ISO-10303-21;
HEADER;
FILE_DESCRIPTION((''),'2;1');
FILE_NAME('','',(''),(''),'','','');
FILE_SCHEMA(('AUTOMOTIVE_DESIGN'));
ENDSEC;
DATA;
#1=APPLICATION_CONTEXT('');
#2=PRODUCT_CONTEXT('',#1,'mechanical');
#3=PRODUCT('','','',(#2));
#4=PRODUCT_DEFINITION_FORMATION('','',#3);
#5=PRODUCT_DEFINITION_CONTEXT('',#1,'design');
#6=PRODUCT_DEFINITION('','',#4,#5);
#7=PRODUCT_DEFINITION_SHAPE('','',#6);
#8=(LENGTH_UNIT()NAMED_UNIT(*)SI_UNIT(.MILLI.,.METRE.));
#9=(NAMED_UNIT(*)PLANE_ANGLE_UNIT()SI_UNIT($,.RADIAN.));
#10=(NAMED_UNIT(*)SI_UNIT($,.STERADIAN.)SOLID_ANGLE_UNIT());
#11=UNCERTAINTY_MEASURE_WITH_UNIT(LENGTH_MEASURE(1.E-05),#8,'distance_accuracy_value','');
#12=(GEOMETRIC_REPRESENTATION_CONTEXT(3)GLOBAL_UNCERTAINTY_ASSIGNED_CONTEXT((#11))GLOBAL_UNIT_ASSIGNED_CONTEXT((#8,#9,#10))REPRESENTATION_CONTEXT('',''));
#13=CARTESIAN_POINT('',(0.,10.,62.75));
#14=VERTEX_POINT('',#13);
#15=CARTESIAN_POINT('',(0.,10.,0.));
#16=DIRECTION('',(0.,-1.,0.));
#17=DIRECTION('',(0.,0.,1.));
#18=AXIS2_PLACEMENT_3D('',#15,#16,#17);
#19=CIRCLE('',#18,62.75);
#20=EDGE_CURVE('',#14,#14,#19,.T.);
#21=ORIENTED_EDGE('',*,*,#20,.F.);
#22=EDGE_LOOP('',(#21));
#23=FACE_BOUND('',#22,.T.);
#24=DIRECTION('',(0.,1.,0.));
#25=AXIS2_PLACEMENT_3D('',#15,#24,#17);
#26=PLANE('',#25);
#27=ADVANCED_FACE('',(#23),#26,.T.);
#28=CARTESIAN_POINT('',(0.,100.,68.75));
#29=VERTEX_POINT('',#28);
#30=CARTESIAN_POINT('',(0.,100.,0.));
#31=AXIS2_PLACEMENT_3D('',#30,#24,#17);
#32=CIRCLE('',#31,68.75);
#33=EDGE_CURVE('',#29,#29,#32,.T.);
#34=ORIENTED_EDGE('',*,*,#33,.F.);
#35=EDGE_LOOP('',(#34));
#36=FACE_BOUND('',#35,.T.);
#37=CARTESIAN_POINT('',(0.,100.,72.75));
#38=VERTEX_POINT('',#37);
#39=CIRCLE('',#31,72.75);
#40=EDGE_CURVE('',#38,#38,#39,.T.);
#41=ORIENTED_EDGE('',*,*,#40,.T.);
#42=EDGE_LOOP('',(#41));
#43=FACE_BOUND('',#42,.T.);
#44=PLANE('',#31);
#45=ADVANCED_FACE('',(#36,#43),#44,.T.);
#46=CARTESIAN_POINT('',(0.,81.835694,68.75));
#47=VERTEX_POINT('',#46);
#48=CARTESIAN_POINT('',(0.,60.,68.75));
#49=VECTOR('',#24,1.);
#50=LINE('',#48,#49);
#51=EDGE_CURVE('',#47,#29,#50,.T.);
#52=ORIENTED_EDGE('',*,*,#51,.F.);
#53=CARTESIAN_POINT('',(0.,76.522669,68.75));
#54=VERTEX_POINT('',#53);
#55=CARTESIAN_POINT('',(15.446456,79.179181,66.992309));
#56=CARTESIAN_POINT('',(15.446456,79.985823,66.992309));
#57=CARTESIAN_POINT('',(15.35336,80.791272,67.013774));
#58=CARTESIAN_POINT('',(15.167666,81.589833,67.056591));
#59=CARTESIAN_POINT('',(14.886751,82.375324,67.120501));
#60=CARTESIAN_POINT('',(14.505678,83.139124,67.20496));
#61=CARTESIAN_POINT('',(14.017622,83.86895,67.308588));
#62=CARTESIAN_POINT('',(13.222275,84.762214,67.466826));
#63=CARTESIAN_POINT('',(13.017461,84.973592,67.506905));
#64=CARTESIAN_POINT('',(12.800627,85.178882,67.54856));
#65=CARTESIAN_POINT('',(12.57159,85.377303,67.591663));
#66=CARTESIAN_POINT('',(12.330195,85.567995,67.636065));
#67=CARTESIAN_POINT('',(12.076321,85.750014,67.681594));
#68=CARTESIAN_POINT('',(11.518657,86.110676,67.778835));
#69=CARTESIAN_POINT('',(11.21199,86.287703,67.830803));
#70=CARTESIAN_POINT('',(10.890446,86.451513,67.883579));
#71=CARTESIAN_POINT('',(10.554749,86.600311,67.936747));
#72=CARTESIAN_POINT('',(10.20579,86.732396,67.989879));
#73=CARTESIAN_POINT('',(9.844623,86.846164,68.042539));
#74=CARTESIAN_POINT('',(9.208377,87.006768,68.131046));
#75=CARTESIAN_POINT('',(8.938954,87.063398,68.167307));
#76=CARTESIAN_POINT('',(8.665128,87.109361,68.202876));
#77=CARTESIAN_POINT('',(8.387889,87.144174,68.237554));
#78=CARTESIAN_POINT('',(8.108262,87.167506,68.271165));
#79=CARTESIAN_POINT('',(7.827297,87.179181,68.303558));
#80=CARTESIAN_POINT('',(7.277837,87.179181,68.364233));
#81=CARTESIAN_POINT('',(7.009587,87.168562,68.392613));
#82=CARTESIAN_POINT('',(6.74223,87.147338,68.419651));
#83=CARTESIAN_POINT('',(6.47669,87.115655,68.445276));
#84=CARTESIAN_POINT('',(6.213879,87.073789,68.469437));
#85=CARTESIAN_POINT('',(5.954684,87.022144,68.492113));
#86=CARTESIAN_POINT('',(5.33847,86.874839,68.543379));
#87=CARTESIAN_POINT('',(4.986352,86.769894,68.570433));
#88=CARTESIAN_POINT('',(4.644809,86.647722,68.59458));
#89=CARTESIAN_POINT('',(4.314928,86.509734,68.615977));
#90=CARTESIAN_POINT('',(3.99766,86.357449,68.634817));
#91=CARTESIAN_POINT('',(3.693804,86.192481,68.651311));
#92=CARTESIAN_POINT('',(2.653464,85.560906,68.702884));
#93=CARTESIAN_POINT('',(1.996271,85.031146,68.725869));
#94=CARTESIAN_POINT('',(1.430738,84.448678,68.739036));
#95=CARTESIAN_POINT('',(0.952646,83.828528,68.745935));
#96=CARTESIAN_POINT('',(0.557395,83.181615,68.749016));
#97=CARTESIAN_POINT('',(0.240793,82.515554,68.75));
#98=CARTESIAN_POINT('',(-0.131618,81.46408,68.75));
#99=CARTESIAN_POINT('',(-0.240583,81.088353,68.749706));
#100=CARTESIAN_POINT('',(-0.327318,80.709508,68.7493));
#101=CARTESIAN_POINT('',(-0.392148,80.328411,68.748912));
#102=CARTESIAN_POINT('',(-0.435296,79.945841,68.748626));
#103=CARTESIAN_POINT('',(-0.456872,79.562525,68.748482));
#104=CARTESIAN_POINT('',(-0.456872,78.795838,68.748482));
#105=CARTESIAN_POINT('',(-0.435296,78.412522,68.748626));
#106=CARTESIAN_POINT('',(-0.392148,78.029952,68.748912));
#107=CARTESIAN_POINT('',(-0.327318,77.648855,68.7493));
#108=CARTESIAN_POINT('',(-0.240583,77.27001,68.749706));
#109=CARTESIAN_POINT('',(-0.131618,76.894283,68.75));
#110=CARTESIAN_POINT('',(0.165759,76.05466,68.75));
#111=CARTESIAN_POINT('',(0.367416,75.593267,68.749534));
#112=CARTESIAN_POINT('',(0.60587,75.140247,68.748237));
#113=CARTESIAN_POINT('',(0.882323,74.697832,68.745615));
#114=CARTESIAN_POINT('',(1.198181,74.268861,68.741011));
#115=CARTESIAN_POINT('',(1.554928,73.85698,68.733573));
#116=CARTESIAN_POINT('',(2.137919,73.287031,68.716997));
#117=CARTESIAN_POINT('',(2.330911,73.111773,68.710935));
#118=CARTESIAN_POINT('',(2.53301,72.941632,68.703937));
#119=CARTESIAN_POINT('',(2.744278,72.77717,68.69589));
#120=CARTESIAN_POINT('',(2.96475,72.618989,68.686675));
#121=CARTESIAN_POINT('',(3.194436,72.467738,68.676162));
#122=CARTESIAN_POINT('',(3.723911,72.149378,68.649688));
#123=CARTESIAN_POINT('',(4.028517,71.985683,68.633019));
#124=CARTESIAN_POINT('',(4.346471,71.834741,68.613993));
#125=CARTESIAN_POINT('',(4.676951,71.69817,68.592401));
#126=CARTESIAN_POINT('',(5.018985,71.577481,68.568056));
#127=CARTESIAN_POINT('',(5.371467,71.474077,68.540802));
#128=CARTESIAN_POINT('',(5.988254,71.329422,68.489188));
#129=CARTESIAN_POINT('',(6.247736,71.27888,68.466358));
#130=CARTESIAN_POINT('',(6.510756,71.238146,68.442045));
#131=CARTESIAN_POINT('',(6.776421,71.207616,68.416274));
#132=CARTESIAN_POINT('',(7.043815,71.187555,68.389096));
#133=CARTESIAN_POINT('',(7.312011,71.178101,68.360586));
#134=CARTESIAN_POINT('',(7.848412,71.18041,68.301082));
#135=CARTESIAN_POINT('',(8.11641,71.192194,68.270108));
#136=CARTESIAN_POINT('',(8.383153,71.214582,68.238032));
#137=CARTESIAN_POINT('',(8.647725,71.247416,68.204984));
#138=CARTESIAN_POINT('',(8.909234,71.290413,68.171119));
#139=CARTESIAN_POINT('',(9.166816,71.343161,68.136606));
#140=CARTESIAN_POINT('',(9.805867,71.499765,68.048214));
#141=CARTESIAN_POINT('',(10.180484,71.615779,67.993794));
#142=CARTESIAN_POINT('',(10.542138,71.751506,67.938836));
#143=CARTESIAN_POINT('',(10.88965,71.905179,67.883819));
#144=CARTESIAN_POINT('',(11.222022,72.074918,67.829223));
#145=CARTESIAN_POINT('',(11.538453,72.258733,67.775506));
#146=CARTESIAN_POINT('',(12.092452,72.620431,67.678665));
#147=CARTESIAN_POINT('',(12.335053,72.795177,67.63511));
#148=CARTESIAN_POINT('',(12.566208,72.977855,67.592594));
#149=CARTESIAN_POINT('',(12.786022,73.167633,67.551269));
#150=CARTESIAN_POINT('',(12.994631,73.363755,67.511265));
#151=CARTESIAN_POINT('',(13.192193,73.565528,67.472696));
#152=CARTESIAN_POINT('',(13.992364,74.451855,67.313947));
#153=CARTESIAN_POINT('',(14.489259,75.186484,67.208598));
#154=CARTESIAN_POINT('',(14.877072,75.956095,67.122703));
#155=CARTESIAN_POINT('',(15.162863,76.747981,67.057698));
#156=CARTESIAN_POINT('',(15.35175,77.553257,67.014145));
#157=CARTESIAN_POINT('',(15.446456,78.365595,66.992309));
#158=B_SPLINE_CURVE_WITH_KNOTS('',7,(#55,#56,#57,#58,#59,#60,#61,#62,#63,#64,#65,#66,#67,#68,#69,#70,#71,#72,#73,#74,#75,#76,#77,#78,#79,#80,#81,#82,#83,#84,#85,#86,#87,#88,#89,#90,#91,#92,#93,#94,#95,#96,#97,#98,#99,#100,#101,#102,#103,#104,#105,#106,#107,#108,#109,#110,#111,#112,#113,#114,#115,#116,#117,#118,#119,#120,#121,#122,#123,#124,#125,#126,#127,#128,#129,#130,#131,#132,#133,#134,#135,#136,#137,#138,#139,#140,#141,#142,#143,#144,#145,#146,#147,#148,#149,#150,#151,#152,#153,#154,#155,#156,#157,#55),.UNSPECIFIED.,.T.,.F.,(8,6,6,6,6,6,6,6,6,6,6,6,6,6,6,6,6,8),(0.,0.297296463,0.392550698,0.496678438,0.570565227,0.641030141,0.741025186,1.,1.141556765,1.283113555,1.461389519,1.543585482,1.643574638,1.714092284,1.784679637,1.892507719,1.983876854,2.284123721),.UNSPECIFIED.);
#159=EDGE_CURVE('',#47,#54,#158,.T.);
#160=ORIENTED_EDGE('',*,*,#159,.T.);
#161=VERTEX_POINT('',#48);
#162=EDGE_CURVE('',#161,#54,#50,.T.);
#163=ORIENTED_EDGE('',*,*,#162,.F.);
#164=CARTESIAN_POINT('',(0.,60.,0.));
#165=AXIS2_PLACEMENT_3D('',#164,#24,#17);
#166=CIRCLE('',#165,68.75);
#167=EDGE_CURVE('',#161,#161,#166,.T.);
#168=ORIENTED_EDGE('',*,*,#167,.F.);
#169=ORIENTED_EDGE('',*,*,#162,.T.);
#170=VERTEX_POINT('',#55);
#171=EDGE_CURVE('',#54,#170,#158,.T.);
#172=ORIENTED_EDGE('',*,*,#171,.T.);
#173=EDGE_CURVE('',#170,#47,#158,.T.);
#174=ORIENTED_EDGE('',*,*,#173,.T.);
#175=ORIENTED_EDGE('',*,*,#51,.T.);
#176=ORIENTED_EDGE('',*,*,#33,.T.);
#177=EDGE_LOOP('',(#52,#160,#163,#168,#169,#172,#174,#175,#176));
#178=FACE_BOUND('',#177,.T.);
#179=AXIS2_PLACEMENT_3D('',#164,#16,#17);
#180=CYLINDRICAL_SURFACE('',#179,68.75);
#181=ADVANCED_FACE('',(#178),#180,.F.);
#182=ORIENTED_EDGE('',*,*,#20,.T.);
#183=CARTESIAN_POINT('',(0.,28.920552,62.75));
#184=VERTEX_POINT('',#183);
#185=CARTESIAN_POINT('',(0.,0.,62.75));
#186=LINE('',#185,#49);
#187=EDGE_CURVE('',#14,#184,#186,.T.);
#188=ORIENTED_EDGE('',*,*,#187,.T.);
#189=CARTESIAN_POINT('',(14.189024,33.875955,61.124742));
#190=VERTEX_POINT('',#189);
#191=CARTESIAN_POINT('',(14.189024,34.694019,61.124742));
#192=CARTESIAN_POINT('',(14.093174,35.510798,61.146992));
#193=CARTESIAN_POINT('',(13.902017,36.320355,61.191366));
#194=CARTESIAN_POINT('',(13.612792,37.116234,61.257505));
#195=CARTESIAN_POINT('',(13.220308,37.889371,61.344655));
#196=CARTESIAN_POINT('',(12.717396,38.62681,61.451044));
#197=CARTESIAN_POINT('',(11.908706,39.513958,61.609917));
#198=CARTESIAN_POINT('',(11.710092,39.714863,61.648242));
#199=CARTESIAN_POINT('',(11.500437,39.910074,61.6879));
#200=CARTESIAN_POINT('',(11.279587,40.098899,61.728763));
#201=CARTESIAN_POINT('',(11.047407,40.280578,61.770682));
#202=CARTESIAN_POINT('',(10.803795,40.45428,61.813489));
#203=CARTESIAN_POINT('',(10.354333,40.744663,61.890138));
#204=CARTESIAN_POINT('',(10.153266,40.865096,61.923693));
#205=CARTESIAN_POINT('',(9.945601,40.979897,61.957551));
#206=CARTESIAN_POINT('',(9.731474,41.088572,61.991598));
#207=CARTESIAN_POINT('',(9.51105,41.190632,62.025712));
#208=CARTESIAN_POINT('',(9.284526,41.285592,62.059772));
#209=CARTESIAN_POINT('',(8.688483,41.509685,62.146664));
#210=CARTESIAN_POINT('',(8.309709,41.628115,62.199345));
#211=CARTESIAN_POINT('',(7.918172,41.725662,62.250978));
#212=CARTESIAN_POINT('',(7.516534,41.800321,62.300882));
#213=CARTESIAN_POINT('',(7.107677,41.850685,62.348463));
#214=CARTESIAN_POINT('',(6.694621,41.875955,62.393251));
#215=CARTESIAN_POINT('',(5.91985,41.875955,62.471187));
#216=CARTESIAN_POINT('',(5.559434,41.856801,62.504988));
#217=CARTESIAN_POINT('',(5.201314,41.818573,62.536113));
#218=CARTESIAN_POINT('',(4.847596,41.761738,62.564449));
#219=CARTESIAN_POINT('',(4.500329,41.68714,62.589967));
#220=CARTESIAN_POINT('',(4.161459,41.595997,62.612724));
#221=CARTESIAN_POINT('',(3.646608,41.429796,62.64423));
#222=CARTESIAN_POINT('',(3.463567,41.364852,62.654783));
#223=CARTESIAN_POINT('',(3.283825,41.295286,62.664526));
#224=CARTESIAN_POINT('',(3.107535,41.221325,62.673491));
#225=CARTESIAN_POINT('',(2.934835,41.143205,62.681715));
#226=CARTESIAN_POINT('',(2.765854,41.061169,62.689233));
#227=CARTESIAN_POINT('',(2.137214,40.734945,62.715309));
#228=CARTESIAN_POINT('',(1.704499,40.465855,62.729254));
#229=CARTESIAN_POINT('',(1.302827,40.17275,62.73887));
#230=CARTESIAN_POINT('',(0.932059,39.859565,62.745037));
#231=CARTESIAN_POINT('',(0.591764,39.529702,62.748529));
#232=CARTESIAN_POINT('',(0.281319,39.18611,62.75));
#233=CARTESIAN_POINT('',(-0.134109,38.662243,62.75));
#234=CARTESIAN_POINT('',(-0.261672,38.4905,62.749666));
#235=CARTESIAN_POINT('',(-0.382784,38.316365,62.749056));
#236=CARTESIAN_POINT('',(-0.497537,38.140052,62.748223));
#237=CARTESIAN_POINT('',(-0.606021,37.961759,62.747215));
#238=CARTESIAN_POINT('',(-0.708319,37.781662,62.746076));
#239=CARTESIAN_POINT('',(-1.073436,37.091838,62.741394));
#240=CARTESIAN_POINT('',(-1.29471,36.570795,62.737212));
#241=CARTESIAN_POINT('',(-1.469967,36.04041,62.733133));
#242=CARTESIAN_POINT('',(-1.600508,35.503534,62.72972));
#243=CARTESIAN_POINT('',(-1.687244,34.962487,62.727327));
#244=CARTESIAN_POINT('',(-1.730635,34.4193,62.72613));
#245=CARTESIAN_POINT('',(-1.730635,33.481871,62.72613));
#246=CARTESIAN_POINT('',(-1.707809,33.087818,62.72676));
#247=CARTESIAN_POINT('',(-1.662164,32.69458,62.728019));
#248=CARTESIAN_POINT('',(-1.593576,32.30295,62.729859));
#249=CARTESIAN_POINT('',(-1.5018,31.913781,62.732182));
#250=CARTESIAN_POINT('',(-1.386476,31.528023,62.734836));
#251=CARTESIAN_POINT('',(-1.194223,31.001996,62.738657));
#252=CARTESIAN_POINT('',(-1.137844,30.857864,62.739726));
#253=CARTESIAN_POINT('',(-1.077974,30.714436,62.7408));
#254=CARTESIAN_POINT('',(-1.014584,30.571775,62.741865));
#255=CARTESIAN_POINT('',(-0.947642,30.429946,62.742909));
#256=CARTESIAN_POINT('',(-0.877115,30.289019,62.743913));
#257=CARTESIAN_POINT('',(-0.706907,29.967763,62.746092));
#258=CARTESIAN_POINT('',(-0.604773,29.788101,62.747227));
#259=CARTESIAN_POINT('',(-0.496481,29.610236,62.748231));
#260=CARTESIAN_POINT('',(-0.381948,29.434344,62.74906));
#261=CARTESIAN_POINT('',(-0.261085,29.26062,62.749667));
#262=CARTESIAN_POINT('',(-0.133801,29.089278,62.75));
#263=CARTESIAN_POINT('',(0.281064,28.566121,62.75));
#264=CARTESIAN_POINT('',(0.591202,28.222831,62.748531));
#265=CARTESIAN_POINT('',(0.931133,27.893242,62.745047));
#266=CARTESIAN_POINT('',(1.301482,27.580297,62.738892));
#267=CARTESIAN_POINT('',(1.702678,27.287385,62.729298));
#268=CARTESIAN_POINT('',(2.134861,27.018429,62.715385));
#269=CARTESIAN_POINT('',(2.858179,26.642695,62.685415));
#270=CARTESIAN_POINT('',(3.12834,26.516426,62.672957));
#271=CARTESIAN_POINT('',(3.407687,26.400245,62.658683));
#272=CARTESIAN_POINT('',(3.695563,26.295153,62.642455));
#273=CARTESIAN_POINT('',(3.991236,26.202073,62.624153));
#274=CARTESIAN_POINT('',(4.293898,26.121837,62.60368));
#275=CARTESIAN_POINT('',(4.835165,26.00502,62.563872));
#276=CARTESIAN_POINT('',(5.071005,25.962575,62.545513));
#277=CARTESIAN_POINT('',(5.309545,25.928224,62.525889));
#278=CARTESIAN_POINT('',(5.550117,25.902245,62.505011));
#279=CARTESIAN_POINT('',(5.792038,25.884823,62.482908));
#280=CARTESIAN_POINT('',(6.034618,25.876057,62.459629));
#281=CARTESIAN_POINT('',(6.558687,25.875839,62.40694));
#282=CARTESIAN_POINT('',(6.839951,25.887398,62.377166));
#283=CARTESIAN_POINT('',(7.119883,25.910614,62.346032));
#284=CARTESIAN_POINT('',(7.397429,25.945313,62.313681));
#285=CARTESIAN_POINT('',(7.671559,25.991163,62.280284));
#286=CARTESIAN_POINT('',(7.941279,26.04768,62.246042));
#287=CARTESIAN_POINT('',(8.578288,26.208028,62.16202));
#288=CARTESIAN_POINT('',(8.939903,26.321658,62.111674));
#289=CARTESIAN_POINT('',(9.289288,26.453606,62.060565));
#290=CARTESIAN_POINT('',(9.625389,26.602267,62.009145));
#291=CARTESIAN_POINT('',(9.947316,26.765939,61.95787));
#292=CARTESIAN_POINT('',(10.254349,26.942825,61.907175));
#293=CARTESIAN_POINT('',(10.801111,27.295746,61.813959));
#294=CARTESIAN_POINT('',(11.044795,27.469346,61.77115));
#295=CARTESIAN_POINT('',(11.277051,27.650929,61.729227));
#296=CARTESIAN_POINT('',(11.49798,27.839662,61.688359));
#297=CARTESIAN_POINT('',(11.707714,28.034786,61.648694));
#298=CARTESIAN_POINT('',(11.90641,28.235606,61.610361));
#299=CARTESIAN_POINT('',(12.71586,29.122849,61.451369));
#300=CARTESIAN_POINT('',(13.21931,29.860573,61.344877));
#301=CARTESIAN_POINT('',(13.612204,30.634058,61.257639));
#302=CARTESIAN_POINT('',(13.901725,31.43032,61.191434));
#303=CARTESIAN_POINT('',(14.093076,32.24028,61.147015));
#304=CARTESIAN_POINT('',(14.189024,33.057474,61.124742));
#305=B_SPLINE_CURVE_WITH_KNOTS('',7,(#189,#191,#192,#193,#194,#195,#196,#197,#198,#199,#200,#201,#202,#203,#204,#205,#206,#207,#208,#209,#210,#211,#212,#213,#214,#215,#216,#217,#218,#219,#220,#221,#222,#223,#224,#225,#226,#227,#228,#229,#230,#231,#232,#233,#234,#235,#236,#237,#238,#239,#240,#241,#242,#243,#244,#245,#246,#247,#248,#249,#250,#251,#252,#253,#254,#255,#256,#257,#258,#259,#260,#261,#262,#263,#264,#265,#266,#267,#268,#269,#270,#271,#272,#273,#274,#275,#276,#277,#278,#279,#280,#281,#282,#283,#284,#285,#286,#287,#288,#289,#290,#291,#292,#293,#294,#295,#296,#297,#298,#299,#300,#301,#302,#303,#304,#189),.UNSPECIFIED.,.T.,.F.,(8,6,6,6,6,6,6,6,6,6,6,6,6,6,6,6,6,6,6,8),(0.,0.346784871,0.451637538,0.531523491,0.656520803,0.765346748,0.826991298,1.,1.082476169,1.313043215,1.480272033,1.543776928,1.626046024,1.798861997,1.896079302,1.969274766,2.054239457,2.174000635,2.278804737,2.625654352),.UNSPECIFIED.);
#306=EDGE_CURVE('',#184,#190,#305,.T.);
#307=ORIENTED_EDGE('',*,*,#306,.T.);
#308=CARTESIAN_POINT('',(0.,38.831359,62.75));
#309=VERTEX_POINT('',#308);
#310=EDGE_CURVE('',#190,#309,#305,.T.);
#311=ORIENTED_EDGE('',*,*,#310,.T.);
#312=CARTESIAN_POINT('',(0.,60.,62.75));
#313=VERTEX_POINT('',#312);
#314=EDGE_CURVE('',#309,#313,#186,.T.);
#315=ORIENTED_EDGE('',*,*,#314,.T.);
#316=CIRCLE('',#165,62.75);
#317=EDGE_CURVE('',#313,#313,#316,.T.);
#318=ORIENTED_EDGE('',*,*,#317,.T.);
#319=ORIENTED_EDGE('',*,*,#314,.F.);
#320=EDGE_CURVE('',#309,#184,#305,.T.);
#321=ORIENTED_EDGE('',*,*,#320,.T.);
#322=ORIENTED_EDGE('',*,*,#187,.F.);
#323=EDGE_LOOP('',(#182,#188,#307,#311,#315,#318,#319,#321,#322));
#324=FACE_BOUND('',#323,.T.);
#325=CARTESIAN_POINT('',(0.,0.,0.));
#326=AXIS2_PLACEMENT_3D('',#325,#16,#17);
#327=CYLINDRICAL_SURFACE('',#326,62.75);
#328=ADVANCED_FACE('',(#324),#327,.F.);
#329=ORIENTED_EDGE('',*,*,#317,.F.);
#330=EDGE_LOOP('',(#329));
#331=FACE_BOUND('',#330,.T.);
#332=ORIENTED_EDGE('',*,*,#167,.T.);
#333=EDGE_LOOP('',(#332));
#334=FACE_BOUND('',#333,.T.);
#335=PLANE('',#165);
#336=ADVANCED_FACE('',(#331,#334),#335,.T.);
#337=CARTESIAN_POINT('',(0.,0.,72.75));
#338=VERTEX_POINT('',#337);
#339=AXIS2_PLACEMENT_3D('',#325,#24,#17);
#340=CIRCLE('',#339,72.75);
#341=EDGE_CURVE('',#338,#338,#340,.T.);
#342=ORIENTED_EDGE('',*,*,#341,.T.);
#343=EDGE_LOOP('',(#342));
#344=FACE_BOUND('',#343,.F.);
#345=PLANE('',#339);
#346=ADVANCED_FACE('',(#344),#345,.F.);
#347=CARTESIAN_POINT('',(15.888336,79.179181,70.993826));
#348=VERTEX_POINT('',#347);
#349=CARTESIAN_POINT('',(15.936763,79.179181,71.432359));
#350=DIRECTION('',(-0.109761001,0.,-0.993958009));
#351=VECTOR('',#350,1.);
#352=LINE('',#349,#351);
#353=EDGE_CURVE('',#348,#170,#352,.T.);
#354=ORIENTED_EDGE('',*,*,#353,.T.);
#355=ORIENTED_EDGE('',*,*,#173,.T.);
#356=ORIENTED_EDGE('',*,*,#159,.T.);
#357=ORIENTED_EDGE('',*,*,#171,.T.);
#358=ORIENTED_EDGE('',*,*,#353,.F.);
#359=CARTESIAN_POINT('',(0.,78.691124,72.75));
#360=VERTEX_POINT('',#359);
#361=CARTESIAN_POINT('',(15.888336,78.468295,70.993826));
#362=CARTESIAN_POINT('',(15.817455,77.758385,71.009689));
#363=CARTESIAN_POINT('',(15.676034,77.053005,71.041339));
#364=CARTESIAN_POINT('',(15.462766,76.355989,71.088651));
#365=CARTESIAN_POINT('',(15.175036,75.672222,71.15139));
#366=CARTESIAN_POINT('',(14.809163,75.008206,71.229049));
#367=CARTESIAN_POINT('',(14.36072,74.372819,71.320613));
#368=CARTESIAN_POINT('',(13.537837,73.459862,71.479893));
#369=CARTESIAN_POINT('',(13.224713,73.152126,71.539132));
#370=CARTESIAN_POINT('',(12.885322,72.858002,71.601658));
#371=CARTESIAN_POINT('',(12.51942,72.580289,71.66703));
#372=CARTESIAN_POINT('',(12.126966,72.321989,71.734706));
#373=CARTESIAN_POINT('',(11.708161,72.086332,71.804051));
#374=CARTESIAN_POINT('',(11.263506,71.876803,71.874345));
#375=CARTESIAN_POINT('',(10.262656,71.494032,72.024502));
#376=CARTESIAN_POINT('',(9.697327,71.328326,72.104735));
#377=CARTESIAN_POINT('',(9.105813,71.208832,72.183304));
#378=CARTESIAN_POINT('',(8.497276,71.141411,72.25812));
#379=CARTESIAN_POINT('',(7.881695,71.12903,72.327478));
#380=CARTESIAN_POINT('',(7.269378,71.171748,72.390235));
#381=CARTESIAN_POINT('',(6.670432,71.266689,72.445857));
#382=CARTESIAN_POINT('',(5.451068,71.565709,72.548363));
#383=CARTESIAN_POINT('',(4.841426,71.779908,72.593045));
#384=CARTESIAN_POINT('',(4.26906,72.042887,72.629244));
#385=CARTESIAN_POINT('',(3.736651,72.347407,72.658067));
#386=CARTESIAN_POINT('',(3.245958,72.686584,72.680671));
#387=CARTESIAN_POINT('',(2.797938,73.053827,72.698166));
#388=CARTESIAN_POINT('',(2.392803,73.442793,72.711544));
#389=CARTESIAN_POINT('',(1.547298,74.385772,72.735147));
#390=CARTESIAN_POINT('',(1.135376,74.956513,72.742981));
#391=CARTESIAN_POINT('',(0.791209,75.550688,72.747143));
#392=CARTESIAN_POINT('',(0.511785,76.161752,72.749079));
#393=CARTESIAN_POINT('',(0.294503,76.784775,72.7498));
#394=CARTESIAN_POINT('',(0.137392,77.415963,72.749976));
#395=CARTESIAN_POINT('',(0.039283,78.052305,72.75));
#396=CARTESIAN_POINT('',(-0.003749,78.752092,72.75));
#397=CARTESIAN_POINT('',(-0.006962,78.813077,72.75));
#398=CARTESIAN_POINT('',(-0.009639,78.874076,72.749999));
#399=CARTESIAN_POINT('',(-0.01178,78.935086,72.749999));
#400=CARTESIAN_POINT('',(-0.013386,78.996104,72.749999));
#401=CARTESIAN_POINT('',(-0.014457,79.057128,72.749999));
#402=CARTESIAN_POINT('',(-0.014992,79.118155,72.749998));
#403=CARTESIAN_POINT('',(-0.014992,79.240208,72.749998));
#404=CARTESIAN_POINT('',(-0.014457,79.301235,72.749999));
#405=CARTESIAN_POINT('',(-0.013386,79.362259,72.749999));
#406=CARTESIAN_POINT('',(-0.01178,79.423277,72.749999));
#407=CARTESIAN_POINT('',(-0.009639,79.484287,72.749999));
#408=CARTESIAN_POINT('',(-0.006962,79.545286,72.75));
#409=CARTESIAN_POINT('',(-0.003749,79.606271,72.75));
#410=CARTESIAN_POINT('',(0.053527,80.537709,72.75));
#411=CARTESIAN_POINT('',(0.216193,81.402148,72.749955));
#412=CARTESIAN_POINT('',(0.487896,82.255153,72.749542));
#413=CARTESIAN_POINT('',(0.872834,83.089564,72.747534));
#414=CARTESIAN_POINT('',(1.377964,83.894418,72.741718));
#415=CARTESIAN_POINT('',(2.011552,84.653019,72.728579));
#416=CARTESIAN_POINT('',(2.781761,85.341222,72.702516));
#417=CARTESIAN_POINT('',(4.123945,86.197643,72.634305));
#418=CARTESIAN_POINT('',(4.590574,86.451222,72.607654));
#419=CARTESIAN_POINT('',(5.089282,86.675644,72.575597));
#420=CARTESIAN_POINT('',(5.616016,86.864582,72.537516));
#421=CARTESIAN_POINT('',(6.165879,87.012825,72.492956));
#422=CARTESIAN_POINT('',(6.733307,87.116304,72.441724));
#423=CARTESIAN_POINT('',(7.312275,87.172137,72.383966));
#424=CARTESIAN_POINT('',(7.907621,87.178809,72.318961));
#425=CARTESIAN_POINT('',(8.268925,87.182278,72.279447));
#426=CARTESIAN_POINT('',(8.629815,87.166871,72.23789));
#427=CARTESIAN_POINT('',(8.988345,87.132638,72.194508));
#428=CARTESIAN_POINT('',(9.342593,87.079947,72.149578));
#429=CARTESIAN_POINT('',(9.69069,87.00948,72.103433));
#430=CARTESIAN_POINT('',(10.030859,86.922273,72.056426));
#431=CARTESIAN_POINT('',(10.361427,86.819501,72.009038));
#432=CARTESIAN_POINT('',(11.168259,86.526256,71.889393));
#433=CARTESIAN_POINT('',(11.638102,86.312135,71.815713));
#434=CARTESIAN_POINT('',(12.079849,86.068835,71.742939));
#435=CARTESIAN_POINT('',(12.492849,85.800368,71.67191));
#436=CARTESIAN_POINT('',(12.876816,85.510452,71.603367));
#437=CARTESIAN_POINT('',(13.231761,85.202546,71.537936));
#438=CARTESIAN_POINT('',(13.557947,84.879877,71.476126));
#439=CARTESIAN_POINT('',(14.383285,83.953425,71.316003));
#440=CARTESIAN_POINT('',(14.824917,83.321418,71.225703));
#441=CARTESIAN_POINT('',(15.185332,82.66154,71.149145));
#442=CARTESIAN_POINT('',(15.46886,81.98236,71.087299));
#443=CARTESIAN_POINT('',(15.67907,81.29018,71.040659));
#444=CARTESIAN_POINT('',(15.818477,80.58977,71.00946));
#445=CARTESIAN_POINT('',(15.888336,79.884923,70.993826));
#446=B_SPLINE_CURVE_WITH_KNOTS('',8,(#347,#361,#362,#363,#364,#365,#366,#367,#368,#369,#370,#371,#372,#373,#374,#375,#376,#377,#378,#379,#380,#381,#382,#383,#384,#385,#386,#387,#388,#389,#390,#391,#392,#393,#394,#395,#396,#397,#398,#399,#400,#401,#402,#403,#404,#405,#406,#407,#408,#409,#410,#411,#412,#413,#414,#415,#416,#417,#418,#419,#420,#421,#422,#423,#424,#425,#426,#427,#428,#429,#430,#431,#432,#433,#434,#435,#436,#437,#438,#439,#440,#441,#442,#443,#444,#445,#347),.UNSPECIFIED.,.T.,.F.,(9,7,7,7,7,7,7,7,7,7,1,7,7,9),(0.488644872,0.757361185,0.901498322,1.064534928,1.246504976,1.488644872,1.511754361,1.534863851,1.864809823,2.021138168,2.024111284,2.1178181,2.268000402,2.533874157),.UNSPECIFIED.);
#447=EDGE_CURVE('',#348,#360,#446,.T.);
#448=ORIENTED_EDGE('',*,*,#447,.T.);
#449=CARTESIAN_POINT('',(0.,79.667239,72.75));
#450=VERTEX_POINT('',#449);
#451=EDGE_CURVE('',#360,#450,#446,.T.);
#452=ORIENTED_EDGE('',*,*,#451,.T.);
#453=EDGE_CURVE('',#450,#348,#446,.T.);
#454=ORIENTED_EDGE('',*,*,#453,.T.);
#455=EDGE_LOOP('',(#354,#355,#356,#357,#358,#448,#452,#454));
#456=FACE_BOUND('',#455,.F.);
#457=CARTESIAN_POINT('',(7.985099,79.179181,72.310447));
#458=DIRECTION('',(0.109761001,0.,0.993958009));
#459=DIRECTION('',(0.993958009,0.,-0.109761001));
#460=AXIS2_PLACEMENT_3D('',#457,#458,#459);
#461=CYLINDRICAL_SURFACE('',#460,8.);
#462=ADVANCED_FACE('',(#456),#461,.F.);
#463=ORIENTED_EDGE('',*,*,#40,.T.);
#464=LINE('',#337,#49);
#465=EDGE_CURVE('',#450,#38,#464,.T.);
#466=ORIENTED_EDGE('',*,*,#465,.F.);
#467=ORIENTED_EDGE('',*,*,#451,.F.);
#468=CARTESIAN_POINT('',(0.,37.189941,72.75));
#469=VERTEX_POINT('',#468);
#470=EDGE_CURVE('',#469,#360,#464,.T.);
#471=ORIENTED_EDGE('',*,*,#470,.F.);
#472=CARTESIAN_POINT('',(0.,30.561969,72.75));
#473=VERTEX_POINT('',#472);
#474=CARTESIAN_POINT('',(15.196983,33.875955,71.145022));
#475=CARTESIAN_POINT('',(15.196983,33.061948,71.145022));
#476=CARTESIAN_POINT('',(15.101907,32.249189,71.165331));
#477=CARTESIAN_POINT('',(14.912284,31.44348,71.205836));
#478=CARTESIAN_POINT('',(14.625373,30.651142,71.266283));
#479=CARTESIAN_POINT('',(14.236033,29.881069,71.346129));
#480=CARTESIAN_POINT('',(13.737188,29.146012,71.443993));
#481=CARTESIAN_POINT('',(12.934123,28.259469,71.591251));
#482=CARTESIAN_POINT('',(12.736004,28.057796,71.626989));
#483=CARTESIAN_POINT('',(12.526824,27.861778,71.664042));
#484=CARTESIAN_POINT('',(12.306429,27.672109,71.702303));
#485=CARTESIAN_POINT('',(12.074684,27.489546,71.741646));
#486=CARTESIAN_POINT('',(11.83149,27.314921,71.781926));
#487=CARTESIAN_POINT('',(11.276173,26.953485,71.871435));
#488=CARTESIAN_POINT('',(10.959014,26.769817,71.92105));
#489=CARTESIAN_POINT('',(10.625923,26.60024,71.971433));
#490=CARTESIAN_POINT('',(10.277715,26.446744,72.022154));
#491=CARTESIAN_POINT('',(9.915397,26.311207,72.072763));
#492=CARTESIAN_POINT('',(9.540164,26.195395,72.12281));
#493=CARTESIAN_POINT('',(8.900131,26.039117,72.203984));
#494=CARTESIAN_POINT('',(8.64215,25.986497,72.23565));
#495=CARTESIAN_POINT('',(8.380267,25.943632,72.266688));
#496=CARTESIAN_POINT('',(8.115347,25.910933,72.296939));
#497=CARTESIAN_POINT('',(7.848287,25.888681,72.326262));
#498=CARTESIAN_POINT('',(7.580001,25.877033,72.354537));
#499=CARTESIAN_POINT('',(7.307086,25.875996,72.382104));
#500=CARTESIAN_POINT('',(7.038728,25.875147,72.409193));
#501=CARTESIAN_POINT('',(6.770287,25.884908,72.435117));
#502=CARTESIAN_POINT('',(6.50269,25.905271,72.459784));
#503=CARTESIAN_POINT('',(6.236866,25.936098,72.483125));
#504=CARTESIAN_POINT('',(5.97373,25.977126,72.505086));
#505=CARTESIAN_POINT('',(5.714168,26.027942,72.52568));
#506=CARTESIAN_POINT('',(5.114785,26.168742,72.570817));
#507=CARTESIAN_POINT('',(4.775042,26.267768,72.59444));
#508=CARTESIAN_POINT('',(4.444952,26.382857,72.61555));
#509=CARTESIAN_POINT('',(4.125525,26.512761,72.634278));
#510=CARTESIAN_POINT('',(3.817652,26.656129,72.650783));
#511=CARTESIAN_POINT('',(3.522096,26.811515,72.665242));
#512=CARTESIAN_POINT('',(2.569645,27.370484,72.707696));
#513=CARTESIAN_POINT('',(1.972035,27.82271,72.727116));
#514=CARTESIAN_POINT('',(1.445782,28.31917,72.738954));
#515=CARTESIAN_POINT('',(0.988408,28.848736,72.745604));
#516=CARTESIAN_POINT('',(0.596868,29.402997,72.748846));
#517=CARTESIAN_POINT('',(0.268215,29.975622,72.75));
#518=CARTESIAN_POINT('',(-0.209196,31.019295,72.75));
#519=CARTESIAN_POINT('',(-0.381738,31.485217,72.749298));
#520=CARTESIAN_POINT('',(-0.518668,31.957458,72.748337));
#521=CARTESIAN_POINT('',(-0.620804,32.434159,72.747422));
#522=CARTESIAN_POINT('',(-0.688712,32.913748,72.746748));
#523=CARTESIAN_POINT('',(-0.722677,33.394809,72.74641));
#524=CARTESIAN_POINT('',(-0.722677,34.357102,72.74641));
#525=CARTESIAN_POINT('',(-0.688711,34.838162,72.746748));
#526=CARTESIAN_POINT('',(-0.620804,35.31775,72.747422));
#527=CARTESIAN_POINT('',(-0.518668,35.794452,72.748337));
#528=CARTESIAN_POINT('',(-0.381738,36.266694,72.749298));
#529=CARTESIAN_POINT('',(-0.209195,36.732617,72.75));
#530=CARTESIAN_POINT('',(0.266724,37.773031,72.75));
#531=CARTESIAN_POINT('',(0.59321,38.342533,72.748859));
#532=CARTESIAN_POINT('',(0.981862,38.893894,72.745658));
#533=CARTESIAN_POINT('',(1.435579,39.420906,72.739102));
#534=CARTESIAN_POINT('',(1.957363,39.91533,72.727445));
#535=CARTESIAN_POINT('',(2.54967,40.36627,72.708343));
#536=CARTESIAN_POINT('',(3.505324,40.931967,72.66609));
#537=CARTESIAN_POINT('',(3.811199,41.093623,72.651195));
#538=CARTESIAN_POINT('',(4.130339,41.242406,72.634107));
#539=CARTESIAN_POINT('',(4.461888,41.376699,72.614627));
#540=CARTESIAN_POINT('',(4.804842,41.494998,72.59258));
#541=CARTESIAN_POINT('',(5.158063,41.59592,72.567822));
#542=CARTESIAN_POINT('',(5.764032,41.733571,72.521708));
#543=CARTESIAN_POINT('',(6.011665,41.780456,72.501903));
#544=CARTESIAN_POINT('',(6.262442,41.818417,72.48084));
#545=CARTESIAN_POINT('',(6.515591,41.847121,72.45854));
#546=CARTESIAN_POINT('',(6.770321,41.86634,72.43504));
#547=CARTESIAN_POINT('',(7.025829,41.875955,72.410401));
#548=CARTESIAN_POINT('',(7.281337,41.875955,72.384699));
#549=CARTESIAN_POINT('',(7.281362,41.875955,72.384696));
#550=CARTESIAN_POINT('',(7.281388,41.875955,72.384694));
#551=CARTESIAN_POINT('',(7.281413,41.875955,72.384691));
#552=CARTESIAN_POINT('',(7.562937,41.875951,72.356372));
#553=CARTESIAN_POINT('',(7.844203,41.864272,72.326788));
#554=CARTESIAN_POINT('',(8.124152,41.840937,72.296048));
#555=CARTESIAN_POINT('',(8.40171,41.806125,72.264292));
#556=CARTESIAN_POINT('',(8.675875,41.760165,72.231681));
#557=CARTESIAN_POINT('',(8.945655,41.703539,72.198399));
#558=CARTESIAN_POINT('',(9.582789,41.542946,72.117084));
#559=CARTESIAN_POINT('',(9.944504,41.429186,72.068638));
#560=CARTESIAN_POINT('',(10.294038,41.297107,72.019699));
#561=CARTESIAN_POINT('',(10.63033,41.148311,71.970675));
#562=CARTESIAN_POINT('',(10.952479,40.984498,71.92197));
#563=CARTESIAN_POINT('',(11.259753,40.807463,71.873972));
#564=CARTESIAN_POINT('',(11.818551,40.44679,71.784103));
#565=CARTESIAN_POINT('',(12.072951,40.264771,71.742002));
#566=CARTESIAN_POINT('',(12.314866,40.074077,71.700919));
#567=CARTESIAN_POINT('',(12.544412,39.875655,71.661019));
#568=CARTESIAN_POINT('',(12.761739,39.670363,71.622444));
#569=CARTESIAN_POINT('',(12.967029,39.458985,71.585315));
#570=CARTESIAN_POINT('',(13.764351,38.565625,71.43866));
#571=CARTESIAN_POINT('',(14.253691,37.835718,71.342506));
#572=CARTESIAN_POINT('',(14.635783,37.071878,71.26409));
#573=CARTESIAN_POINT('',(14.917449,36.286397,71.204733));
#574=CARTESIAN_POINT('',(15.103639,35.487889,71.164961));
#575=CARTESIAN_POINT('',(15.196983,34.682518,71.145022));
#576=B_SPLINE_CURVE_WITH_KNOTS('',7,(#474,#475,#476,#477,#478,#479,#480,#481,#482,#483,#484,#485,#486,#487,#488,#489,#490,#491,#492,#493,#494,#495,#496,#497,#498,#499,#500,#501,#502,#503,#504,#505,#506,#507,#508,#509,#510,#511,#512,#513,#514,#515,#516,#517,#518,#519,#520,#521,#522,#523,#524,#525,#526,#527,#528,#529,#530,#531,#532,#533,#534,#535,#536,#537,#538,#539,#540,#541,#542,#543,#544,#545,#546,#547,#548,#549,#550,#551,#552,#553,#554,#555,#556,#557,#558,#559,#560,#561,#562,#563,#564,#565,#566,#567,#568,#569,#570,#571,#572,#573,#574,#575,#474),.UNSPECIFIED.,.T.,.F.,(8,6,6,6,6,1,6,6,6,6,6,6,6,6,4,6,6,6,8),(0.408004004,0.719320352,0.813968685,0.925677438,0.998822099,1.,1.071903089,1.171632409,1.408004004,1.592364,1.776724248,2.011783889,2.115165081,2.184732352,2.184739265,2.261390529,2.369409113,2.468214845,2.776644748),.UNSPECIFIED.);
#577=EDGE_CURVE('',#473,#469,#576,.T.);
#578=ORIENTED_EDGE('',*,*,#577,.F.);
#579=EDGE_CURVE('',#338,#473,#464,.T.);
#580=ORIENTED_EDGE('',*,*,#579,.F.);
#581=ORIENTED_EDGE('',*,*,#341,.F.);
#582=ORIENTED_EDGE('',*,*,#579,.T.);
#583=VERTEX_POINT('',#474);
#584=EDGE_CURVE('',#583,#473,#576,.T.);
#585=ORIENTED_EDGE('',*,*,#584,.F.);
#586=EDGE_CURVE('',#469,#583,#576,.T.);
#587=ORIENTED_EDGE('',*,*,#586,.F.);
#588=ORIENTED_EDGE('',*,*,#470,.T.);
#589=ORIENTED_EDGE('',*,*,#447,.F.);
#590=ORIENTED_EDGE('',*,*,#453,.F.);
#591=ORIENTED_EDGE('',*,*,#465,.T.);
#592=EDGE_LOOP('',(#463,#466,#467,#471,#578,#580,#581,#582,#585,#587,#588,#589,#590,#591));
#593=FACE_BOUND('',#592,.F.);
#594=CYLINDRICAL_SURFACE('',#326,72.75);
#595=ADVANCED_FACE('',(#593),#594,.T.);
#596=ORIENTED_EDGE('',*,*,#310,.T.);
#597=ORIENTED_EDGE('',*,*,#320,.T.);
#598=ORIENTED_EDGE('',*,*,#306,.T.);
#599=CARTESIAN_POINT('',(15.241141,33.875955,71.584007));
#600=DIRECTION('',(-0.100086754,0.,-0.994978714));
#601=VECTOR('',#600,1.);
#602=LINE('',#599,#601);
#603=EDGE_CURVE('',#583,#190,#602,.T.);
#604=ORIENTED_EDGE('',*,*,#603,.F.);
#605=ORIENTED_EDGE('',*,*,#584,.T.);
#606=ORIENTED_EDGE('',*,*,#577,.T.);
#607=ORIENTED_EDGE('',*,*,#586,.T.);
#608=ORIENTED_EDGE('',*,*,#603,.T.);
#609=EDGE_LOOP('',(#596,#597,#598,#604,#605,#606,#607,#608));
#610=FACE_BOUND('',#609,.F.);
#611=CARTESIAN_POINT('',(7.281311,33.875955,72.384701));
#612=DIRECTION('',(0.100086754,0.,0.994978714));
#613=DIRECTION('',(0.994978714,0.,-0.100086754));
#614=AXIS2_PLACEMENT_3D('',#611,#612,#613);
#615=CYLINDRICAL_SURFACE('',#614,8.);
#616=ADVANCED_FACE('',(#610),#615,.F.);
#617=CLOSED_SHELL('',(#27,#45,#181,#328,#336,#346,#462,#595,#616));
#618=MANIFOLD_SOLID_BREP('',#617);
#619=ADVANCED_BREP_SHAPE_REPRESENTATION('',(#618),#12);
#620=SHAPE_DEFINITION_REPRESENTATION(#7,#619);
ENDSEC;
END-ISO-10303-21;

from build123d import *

# Parameters (mm, degrees)
SKETCH_6_R                 = 72.75
EXTRUDE_16_DEPTH           = 100
SHELL_8_T                  = -10
CUT_EXTRUDE_START          = -40
SKETCH_13_R                = 68.75
SKETCH_13_R_2              = 62.75
CUT_EXTRUDE_5_DEPTH        = 40
F_16_0MM_2_REACH           = 180.442
F_16_0MM_2_BORE_R          = 8
F_16_0MM_2_ON_FACE_2_REACH = 185.929
F_16_0MM_2_BORE_2_R        = 8


with BuildPart() as part:
    # 草圖6 → 填料-伸長16 (new body)
    with BuildSketch(Plane(origin=(0, 0, 0), x_dir=(1, 0, 0), z_dir=(0, 1, 0))):
        with Locations(Location((0, 0, 0), (0, 0, 270))):
            Circle(SKETCH_6_R)
    extrude(amount=EXTRUDE_16_DEPTH)

    # 薄殼8
    shell_8_openings = [part.faces().sort_by_distance(p)[0] for p in [
        (0, 100, 0),
    ]]
    offset(amount=SHELL_8_T, openings=shell_8_openings, kind=Kind.INTERSECTION)

    # 草圖13 → 除料-伸長5 (cut)
    with BuildSketch(Plane(origin=(0, 100, 0), x_dir=(1, 0, 0), z_dir=(0, 1, 0)).offset(CUT_EXTRUDE_START)):
        with Locations(Location((0, 0, 0), (0, 0, 270))):
            Circle(SKETCH_13_R)
        with Locations(Location((0, 0, 0), (0, 0, 270))):
            Circle(SKETCH_13_R_2, mode=Mode.SUBTRACT)
    extrude(amount=CUT_EXTRUDE_5_DEPTH, mode=Mode.SUBTRACT)

    # Ø16.0mm 定位孔2 bore (on position points) → Ø16.0mm 定位孔2 (cut, up to next)
    with BuildSketch(Plane(origin=(7.281311378, 33.875955165, 72.384701454), x_dir=(0.994978714148, 0, -0.100086754332), z_dir=(0.100086754332, 0, 0.994978714148)), mode=Mode.PRIVATE) as f_16_0mm_2_sk1:
        Circle(F_16_0MM_2_BORE_R)
    f_16_0mm_2_tool1 = extrude(f_16_0mm_2_sk1.sketch, amount=-F_16_0MM_2_REACH, mode=Mode.PRIVATE) & part.part
    add(f_16_0mm_2_tool1.solids().sort_by_distance((7.281311, 33.875955, 72.384701))[0], mode=Mode.SUBTRACT)

    # Ø16.0mm 定位孔2 bore 2 (on position points) → Ø16.0mm 定位孔2 on face 2 (cut, up to next)
    with BuildSketch(Plane(origin=(7.98509872, 79.17918137, 72.310446676), x_dir=(0.993958008506, 0, -0.109761000939), z_dir=(0.109761000939, 0, 0.993958008506)), mode=Mode.PRIVATE) as f_16_0mm_2_on_face_2_sk1:
        Circle(F_16_0MM_2_BORE_2_R)
    f_16_0mm_2_on_face_2_tool1 = extrude(f_16_0mm_2_on_face_2_sk1.sketch, amount=-F_16_0MM_2_ON_FACE_2_REACH, mode=Mode.PRIVATE) & part.part
    add(f_16_0mm_2_on_face_2_tool1.solids().sort_by_distance((7.985099, 79.179181, 72.310447))[0], mode=Mode.SUBTRACT)


solid = part.part
